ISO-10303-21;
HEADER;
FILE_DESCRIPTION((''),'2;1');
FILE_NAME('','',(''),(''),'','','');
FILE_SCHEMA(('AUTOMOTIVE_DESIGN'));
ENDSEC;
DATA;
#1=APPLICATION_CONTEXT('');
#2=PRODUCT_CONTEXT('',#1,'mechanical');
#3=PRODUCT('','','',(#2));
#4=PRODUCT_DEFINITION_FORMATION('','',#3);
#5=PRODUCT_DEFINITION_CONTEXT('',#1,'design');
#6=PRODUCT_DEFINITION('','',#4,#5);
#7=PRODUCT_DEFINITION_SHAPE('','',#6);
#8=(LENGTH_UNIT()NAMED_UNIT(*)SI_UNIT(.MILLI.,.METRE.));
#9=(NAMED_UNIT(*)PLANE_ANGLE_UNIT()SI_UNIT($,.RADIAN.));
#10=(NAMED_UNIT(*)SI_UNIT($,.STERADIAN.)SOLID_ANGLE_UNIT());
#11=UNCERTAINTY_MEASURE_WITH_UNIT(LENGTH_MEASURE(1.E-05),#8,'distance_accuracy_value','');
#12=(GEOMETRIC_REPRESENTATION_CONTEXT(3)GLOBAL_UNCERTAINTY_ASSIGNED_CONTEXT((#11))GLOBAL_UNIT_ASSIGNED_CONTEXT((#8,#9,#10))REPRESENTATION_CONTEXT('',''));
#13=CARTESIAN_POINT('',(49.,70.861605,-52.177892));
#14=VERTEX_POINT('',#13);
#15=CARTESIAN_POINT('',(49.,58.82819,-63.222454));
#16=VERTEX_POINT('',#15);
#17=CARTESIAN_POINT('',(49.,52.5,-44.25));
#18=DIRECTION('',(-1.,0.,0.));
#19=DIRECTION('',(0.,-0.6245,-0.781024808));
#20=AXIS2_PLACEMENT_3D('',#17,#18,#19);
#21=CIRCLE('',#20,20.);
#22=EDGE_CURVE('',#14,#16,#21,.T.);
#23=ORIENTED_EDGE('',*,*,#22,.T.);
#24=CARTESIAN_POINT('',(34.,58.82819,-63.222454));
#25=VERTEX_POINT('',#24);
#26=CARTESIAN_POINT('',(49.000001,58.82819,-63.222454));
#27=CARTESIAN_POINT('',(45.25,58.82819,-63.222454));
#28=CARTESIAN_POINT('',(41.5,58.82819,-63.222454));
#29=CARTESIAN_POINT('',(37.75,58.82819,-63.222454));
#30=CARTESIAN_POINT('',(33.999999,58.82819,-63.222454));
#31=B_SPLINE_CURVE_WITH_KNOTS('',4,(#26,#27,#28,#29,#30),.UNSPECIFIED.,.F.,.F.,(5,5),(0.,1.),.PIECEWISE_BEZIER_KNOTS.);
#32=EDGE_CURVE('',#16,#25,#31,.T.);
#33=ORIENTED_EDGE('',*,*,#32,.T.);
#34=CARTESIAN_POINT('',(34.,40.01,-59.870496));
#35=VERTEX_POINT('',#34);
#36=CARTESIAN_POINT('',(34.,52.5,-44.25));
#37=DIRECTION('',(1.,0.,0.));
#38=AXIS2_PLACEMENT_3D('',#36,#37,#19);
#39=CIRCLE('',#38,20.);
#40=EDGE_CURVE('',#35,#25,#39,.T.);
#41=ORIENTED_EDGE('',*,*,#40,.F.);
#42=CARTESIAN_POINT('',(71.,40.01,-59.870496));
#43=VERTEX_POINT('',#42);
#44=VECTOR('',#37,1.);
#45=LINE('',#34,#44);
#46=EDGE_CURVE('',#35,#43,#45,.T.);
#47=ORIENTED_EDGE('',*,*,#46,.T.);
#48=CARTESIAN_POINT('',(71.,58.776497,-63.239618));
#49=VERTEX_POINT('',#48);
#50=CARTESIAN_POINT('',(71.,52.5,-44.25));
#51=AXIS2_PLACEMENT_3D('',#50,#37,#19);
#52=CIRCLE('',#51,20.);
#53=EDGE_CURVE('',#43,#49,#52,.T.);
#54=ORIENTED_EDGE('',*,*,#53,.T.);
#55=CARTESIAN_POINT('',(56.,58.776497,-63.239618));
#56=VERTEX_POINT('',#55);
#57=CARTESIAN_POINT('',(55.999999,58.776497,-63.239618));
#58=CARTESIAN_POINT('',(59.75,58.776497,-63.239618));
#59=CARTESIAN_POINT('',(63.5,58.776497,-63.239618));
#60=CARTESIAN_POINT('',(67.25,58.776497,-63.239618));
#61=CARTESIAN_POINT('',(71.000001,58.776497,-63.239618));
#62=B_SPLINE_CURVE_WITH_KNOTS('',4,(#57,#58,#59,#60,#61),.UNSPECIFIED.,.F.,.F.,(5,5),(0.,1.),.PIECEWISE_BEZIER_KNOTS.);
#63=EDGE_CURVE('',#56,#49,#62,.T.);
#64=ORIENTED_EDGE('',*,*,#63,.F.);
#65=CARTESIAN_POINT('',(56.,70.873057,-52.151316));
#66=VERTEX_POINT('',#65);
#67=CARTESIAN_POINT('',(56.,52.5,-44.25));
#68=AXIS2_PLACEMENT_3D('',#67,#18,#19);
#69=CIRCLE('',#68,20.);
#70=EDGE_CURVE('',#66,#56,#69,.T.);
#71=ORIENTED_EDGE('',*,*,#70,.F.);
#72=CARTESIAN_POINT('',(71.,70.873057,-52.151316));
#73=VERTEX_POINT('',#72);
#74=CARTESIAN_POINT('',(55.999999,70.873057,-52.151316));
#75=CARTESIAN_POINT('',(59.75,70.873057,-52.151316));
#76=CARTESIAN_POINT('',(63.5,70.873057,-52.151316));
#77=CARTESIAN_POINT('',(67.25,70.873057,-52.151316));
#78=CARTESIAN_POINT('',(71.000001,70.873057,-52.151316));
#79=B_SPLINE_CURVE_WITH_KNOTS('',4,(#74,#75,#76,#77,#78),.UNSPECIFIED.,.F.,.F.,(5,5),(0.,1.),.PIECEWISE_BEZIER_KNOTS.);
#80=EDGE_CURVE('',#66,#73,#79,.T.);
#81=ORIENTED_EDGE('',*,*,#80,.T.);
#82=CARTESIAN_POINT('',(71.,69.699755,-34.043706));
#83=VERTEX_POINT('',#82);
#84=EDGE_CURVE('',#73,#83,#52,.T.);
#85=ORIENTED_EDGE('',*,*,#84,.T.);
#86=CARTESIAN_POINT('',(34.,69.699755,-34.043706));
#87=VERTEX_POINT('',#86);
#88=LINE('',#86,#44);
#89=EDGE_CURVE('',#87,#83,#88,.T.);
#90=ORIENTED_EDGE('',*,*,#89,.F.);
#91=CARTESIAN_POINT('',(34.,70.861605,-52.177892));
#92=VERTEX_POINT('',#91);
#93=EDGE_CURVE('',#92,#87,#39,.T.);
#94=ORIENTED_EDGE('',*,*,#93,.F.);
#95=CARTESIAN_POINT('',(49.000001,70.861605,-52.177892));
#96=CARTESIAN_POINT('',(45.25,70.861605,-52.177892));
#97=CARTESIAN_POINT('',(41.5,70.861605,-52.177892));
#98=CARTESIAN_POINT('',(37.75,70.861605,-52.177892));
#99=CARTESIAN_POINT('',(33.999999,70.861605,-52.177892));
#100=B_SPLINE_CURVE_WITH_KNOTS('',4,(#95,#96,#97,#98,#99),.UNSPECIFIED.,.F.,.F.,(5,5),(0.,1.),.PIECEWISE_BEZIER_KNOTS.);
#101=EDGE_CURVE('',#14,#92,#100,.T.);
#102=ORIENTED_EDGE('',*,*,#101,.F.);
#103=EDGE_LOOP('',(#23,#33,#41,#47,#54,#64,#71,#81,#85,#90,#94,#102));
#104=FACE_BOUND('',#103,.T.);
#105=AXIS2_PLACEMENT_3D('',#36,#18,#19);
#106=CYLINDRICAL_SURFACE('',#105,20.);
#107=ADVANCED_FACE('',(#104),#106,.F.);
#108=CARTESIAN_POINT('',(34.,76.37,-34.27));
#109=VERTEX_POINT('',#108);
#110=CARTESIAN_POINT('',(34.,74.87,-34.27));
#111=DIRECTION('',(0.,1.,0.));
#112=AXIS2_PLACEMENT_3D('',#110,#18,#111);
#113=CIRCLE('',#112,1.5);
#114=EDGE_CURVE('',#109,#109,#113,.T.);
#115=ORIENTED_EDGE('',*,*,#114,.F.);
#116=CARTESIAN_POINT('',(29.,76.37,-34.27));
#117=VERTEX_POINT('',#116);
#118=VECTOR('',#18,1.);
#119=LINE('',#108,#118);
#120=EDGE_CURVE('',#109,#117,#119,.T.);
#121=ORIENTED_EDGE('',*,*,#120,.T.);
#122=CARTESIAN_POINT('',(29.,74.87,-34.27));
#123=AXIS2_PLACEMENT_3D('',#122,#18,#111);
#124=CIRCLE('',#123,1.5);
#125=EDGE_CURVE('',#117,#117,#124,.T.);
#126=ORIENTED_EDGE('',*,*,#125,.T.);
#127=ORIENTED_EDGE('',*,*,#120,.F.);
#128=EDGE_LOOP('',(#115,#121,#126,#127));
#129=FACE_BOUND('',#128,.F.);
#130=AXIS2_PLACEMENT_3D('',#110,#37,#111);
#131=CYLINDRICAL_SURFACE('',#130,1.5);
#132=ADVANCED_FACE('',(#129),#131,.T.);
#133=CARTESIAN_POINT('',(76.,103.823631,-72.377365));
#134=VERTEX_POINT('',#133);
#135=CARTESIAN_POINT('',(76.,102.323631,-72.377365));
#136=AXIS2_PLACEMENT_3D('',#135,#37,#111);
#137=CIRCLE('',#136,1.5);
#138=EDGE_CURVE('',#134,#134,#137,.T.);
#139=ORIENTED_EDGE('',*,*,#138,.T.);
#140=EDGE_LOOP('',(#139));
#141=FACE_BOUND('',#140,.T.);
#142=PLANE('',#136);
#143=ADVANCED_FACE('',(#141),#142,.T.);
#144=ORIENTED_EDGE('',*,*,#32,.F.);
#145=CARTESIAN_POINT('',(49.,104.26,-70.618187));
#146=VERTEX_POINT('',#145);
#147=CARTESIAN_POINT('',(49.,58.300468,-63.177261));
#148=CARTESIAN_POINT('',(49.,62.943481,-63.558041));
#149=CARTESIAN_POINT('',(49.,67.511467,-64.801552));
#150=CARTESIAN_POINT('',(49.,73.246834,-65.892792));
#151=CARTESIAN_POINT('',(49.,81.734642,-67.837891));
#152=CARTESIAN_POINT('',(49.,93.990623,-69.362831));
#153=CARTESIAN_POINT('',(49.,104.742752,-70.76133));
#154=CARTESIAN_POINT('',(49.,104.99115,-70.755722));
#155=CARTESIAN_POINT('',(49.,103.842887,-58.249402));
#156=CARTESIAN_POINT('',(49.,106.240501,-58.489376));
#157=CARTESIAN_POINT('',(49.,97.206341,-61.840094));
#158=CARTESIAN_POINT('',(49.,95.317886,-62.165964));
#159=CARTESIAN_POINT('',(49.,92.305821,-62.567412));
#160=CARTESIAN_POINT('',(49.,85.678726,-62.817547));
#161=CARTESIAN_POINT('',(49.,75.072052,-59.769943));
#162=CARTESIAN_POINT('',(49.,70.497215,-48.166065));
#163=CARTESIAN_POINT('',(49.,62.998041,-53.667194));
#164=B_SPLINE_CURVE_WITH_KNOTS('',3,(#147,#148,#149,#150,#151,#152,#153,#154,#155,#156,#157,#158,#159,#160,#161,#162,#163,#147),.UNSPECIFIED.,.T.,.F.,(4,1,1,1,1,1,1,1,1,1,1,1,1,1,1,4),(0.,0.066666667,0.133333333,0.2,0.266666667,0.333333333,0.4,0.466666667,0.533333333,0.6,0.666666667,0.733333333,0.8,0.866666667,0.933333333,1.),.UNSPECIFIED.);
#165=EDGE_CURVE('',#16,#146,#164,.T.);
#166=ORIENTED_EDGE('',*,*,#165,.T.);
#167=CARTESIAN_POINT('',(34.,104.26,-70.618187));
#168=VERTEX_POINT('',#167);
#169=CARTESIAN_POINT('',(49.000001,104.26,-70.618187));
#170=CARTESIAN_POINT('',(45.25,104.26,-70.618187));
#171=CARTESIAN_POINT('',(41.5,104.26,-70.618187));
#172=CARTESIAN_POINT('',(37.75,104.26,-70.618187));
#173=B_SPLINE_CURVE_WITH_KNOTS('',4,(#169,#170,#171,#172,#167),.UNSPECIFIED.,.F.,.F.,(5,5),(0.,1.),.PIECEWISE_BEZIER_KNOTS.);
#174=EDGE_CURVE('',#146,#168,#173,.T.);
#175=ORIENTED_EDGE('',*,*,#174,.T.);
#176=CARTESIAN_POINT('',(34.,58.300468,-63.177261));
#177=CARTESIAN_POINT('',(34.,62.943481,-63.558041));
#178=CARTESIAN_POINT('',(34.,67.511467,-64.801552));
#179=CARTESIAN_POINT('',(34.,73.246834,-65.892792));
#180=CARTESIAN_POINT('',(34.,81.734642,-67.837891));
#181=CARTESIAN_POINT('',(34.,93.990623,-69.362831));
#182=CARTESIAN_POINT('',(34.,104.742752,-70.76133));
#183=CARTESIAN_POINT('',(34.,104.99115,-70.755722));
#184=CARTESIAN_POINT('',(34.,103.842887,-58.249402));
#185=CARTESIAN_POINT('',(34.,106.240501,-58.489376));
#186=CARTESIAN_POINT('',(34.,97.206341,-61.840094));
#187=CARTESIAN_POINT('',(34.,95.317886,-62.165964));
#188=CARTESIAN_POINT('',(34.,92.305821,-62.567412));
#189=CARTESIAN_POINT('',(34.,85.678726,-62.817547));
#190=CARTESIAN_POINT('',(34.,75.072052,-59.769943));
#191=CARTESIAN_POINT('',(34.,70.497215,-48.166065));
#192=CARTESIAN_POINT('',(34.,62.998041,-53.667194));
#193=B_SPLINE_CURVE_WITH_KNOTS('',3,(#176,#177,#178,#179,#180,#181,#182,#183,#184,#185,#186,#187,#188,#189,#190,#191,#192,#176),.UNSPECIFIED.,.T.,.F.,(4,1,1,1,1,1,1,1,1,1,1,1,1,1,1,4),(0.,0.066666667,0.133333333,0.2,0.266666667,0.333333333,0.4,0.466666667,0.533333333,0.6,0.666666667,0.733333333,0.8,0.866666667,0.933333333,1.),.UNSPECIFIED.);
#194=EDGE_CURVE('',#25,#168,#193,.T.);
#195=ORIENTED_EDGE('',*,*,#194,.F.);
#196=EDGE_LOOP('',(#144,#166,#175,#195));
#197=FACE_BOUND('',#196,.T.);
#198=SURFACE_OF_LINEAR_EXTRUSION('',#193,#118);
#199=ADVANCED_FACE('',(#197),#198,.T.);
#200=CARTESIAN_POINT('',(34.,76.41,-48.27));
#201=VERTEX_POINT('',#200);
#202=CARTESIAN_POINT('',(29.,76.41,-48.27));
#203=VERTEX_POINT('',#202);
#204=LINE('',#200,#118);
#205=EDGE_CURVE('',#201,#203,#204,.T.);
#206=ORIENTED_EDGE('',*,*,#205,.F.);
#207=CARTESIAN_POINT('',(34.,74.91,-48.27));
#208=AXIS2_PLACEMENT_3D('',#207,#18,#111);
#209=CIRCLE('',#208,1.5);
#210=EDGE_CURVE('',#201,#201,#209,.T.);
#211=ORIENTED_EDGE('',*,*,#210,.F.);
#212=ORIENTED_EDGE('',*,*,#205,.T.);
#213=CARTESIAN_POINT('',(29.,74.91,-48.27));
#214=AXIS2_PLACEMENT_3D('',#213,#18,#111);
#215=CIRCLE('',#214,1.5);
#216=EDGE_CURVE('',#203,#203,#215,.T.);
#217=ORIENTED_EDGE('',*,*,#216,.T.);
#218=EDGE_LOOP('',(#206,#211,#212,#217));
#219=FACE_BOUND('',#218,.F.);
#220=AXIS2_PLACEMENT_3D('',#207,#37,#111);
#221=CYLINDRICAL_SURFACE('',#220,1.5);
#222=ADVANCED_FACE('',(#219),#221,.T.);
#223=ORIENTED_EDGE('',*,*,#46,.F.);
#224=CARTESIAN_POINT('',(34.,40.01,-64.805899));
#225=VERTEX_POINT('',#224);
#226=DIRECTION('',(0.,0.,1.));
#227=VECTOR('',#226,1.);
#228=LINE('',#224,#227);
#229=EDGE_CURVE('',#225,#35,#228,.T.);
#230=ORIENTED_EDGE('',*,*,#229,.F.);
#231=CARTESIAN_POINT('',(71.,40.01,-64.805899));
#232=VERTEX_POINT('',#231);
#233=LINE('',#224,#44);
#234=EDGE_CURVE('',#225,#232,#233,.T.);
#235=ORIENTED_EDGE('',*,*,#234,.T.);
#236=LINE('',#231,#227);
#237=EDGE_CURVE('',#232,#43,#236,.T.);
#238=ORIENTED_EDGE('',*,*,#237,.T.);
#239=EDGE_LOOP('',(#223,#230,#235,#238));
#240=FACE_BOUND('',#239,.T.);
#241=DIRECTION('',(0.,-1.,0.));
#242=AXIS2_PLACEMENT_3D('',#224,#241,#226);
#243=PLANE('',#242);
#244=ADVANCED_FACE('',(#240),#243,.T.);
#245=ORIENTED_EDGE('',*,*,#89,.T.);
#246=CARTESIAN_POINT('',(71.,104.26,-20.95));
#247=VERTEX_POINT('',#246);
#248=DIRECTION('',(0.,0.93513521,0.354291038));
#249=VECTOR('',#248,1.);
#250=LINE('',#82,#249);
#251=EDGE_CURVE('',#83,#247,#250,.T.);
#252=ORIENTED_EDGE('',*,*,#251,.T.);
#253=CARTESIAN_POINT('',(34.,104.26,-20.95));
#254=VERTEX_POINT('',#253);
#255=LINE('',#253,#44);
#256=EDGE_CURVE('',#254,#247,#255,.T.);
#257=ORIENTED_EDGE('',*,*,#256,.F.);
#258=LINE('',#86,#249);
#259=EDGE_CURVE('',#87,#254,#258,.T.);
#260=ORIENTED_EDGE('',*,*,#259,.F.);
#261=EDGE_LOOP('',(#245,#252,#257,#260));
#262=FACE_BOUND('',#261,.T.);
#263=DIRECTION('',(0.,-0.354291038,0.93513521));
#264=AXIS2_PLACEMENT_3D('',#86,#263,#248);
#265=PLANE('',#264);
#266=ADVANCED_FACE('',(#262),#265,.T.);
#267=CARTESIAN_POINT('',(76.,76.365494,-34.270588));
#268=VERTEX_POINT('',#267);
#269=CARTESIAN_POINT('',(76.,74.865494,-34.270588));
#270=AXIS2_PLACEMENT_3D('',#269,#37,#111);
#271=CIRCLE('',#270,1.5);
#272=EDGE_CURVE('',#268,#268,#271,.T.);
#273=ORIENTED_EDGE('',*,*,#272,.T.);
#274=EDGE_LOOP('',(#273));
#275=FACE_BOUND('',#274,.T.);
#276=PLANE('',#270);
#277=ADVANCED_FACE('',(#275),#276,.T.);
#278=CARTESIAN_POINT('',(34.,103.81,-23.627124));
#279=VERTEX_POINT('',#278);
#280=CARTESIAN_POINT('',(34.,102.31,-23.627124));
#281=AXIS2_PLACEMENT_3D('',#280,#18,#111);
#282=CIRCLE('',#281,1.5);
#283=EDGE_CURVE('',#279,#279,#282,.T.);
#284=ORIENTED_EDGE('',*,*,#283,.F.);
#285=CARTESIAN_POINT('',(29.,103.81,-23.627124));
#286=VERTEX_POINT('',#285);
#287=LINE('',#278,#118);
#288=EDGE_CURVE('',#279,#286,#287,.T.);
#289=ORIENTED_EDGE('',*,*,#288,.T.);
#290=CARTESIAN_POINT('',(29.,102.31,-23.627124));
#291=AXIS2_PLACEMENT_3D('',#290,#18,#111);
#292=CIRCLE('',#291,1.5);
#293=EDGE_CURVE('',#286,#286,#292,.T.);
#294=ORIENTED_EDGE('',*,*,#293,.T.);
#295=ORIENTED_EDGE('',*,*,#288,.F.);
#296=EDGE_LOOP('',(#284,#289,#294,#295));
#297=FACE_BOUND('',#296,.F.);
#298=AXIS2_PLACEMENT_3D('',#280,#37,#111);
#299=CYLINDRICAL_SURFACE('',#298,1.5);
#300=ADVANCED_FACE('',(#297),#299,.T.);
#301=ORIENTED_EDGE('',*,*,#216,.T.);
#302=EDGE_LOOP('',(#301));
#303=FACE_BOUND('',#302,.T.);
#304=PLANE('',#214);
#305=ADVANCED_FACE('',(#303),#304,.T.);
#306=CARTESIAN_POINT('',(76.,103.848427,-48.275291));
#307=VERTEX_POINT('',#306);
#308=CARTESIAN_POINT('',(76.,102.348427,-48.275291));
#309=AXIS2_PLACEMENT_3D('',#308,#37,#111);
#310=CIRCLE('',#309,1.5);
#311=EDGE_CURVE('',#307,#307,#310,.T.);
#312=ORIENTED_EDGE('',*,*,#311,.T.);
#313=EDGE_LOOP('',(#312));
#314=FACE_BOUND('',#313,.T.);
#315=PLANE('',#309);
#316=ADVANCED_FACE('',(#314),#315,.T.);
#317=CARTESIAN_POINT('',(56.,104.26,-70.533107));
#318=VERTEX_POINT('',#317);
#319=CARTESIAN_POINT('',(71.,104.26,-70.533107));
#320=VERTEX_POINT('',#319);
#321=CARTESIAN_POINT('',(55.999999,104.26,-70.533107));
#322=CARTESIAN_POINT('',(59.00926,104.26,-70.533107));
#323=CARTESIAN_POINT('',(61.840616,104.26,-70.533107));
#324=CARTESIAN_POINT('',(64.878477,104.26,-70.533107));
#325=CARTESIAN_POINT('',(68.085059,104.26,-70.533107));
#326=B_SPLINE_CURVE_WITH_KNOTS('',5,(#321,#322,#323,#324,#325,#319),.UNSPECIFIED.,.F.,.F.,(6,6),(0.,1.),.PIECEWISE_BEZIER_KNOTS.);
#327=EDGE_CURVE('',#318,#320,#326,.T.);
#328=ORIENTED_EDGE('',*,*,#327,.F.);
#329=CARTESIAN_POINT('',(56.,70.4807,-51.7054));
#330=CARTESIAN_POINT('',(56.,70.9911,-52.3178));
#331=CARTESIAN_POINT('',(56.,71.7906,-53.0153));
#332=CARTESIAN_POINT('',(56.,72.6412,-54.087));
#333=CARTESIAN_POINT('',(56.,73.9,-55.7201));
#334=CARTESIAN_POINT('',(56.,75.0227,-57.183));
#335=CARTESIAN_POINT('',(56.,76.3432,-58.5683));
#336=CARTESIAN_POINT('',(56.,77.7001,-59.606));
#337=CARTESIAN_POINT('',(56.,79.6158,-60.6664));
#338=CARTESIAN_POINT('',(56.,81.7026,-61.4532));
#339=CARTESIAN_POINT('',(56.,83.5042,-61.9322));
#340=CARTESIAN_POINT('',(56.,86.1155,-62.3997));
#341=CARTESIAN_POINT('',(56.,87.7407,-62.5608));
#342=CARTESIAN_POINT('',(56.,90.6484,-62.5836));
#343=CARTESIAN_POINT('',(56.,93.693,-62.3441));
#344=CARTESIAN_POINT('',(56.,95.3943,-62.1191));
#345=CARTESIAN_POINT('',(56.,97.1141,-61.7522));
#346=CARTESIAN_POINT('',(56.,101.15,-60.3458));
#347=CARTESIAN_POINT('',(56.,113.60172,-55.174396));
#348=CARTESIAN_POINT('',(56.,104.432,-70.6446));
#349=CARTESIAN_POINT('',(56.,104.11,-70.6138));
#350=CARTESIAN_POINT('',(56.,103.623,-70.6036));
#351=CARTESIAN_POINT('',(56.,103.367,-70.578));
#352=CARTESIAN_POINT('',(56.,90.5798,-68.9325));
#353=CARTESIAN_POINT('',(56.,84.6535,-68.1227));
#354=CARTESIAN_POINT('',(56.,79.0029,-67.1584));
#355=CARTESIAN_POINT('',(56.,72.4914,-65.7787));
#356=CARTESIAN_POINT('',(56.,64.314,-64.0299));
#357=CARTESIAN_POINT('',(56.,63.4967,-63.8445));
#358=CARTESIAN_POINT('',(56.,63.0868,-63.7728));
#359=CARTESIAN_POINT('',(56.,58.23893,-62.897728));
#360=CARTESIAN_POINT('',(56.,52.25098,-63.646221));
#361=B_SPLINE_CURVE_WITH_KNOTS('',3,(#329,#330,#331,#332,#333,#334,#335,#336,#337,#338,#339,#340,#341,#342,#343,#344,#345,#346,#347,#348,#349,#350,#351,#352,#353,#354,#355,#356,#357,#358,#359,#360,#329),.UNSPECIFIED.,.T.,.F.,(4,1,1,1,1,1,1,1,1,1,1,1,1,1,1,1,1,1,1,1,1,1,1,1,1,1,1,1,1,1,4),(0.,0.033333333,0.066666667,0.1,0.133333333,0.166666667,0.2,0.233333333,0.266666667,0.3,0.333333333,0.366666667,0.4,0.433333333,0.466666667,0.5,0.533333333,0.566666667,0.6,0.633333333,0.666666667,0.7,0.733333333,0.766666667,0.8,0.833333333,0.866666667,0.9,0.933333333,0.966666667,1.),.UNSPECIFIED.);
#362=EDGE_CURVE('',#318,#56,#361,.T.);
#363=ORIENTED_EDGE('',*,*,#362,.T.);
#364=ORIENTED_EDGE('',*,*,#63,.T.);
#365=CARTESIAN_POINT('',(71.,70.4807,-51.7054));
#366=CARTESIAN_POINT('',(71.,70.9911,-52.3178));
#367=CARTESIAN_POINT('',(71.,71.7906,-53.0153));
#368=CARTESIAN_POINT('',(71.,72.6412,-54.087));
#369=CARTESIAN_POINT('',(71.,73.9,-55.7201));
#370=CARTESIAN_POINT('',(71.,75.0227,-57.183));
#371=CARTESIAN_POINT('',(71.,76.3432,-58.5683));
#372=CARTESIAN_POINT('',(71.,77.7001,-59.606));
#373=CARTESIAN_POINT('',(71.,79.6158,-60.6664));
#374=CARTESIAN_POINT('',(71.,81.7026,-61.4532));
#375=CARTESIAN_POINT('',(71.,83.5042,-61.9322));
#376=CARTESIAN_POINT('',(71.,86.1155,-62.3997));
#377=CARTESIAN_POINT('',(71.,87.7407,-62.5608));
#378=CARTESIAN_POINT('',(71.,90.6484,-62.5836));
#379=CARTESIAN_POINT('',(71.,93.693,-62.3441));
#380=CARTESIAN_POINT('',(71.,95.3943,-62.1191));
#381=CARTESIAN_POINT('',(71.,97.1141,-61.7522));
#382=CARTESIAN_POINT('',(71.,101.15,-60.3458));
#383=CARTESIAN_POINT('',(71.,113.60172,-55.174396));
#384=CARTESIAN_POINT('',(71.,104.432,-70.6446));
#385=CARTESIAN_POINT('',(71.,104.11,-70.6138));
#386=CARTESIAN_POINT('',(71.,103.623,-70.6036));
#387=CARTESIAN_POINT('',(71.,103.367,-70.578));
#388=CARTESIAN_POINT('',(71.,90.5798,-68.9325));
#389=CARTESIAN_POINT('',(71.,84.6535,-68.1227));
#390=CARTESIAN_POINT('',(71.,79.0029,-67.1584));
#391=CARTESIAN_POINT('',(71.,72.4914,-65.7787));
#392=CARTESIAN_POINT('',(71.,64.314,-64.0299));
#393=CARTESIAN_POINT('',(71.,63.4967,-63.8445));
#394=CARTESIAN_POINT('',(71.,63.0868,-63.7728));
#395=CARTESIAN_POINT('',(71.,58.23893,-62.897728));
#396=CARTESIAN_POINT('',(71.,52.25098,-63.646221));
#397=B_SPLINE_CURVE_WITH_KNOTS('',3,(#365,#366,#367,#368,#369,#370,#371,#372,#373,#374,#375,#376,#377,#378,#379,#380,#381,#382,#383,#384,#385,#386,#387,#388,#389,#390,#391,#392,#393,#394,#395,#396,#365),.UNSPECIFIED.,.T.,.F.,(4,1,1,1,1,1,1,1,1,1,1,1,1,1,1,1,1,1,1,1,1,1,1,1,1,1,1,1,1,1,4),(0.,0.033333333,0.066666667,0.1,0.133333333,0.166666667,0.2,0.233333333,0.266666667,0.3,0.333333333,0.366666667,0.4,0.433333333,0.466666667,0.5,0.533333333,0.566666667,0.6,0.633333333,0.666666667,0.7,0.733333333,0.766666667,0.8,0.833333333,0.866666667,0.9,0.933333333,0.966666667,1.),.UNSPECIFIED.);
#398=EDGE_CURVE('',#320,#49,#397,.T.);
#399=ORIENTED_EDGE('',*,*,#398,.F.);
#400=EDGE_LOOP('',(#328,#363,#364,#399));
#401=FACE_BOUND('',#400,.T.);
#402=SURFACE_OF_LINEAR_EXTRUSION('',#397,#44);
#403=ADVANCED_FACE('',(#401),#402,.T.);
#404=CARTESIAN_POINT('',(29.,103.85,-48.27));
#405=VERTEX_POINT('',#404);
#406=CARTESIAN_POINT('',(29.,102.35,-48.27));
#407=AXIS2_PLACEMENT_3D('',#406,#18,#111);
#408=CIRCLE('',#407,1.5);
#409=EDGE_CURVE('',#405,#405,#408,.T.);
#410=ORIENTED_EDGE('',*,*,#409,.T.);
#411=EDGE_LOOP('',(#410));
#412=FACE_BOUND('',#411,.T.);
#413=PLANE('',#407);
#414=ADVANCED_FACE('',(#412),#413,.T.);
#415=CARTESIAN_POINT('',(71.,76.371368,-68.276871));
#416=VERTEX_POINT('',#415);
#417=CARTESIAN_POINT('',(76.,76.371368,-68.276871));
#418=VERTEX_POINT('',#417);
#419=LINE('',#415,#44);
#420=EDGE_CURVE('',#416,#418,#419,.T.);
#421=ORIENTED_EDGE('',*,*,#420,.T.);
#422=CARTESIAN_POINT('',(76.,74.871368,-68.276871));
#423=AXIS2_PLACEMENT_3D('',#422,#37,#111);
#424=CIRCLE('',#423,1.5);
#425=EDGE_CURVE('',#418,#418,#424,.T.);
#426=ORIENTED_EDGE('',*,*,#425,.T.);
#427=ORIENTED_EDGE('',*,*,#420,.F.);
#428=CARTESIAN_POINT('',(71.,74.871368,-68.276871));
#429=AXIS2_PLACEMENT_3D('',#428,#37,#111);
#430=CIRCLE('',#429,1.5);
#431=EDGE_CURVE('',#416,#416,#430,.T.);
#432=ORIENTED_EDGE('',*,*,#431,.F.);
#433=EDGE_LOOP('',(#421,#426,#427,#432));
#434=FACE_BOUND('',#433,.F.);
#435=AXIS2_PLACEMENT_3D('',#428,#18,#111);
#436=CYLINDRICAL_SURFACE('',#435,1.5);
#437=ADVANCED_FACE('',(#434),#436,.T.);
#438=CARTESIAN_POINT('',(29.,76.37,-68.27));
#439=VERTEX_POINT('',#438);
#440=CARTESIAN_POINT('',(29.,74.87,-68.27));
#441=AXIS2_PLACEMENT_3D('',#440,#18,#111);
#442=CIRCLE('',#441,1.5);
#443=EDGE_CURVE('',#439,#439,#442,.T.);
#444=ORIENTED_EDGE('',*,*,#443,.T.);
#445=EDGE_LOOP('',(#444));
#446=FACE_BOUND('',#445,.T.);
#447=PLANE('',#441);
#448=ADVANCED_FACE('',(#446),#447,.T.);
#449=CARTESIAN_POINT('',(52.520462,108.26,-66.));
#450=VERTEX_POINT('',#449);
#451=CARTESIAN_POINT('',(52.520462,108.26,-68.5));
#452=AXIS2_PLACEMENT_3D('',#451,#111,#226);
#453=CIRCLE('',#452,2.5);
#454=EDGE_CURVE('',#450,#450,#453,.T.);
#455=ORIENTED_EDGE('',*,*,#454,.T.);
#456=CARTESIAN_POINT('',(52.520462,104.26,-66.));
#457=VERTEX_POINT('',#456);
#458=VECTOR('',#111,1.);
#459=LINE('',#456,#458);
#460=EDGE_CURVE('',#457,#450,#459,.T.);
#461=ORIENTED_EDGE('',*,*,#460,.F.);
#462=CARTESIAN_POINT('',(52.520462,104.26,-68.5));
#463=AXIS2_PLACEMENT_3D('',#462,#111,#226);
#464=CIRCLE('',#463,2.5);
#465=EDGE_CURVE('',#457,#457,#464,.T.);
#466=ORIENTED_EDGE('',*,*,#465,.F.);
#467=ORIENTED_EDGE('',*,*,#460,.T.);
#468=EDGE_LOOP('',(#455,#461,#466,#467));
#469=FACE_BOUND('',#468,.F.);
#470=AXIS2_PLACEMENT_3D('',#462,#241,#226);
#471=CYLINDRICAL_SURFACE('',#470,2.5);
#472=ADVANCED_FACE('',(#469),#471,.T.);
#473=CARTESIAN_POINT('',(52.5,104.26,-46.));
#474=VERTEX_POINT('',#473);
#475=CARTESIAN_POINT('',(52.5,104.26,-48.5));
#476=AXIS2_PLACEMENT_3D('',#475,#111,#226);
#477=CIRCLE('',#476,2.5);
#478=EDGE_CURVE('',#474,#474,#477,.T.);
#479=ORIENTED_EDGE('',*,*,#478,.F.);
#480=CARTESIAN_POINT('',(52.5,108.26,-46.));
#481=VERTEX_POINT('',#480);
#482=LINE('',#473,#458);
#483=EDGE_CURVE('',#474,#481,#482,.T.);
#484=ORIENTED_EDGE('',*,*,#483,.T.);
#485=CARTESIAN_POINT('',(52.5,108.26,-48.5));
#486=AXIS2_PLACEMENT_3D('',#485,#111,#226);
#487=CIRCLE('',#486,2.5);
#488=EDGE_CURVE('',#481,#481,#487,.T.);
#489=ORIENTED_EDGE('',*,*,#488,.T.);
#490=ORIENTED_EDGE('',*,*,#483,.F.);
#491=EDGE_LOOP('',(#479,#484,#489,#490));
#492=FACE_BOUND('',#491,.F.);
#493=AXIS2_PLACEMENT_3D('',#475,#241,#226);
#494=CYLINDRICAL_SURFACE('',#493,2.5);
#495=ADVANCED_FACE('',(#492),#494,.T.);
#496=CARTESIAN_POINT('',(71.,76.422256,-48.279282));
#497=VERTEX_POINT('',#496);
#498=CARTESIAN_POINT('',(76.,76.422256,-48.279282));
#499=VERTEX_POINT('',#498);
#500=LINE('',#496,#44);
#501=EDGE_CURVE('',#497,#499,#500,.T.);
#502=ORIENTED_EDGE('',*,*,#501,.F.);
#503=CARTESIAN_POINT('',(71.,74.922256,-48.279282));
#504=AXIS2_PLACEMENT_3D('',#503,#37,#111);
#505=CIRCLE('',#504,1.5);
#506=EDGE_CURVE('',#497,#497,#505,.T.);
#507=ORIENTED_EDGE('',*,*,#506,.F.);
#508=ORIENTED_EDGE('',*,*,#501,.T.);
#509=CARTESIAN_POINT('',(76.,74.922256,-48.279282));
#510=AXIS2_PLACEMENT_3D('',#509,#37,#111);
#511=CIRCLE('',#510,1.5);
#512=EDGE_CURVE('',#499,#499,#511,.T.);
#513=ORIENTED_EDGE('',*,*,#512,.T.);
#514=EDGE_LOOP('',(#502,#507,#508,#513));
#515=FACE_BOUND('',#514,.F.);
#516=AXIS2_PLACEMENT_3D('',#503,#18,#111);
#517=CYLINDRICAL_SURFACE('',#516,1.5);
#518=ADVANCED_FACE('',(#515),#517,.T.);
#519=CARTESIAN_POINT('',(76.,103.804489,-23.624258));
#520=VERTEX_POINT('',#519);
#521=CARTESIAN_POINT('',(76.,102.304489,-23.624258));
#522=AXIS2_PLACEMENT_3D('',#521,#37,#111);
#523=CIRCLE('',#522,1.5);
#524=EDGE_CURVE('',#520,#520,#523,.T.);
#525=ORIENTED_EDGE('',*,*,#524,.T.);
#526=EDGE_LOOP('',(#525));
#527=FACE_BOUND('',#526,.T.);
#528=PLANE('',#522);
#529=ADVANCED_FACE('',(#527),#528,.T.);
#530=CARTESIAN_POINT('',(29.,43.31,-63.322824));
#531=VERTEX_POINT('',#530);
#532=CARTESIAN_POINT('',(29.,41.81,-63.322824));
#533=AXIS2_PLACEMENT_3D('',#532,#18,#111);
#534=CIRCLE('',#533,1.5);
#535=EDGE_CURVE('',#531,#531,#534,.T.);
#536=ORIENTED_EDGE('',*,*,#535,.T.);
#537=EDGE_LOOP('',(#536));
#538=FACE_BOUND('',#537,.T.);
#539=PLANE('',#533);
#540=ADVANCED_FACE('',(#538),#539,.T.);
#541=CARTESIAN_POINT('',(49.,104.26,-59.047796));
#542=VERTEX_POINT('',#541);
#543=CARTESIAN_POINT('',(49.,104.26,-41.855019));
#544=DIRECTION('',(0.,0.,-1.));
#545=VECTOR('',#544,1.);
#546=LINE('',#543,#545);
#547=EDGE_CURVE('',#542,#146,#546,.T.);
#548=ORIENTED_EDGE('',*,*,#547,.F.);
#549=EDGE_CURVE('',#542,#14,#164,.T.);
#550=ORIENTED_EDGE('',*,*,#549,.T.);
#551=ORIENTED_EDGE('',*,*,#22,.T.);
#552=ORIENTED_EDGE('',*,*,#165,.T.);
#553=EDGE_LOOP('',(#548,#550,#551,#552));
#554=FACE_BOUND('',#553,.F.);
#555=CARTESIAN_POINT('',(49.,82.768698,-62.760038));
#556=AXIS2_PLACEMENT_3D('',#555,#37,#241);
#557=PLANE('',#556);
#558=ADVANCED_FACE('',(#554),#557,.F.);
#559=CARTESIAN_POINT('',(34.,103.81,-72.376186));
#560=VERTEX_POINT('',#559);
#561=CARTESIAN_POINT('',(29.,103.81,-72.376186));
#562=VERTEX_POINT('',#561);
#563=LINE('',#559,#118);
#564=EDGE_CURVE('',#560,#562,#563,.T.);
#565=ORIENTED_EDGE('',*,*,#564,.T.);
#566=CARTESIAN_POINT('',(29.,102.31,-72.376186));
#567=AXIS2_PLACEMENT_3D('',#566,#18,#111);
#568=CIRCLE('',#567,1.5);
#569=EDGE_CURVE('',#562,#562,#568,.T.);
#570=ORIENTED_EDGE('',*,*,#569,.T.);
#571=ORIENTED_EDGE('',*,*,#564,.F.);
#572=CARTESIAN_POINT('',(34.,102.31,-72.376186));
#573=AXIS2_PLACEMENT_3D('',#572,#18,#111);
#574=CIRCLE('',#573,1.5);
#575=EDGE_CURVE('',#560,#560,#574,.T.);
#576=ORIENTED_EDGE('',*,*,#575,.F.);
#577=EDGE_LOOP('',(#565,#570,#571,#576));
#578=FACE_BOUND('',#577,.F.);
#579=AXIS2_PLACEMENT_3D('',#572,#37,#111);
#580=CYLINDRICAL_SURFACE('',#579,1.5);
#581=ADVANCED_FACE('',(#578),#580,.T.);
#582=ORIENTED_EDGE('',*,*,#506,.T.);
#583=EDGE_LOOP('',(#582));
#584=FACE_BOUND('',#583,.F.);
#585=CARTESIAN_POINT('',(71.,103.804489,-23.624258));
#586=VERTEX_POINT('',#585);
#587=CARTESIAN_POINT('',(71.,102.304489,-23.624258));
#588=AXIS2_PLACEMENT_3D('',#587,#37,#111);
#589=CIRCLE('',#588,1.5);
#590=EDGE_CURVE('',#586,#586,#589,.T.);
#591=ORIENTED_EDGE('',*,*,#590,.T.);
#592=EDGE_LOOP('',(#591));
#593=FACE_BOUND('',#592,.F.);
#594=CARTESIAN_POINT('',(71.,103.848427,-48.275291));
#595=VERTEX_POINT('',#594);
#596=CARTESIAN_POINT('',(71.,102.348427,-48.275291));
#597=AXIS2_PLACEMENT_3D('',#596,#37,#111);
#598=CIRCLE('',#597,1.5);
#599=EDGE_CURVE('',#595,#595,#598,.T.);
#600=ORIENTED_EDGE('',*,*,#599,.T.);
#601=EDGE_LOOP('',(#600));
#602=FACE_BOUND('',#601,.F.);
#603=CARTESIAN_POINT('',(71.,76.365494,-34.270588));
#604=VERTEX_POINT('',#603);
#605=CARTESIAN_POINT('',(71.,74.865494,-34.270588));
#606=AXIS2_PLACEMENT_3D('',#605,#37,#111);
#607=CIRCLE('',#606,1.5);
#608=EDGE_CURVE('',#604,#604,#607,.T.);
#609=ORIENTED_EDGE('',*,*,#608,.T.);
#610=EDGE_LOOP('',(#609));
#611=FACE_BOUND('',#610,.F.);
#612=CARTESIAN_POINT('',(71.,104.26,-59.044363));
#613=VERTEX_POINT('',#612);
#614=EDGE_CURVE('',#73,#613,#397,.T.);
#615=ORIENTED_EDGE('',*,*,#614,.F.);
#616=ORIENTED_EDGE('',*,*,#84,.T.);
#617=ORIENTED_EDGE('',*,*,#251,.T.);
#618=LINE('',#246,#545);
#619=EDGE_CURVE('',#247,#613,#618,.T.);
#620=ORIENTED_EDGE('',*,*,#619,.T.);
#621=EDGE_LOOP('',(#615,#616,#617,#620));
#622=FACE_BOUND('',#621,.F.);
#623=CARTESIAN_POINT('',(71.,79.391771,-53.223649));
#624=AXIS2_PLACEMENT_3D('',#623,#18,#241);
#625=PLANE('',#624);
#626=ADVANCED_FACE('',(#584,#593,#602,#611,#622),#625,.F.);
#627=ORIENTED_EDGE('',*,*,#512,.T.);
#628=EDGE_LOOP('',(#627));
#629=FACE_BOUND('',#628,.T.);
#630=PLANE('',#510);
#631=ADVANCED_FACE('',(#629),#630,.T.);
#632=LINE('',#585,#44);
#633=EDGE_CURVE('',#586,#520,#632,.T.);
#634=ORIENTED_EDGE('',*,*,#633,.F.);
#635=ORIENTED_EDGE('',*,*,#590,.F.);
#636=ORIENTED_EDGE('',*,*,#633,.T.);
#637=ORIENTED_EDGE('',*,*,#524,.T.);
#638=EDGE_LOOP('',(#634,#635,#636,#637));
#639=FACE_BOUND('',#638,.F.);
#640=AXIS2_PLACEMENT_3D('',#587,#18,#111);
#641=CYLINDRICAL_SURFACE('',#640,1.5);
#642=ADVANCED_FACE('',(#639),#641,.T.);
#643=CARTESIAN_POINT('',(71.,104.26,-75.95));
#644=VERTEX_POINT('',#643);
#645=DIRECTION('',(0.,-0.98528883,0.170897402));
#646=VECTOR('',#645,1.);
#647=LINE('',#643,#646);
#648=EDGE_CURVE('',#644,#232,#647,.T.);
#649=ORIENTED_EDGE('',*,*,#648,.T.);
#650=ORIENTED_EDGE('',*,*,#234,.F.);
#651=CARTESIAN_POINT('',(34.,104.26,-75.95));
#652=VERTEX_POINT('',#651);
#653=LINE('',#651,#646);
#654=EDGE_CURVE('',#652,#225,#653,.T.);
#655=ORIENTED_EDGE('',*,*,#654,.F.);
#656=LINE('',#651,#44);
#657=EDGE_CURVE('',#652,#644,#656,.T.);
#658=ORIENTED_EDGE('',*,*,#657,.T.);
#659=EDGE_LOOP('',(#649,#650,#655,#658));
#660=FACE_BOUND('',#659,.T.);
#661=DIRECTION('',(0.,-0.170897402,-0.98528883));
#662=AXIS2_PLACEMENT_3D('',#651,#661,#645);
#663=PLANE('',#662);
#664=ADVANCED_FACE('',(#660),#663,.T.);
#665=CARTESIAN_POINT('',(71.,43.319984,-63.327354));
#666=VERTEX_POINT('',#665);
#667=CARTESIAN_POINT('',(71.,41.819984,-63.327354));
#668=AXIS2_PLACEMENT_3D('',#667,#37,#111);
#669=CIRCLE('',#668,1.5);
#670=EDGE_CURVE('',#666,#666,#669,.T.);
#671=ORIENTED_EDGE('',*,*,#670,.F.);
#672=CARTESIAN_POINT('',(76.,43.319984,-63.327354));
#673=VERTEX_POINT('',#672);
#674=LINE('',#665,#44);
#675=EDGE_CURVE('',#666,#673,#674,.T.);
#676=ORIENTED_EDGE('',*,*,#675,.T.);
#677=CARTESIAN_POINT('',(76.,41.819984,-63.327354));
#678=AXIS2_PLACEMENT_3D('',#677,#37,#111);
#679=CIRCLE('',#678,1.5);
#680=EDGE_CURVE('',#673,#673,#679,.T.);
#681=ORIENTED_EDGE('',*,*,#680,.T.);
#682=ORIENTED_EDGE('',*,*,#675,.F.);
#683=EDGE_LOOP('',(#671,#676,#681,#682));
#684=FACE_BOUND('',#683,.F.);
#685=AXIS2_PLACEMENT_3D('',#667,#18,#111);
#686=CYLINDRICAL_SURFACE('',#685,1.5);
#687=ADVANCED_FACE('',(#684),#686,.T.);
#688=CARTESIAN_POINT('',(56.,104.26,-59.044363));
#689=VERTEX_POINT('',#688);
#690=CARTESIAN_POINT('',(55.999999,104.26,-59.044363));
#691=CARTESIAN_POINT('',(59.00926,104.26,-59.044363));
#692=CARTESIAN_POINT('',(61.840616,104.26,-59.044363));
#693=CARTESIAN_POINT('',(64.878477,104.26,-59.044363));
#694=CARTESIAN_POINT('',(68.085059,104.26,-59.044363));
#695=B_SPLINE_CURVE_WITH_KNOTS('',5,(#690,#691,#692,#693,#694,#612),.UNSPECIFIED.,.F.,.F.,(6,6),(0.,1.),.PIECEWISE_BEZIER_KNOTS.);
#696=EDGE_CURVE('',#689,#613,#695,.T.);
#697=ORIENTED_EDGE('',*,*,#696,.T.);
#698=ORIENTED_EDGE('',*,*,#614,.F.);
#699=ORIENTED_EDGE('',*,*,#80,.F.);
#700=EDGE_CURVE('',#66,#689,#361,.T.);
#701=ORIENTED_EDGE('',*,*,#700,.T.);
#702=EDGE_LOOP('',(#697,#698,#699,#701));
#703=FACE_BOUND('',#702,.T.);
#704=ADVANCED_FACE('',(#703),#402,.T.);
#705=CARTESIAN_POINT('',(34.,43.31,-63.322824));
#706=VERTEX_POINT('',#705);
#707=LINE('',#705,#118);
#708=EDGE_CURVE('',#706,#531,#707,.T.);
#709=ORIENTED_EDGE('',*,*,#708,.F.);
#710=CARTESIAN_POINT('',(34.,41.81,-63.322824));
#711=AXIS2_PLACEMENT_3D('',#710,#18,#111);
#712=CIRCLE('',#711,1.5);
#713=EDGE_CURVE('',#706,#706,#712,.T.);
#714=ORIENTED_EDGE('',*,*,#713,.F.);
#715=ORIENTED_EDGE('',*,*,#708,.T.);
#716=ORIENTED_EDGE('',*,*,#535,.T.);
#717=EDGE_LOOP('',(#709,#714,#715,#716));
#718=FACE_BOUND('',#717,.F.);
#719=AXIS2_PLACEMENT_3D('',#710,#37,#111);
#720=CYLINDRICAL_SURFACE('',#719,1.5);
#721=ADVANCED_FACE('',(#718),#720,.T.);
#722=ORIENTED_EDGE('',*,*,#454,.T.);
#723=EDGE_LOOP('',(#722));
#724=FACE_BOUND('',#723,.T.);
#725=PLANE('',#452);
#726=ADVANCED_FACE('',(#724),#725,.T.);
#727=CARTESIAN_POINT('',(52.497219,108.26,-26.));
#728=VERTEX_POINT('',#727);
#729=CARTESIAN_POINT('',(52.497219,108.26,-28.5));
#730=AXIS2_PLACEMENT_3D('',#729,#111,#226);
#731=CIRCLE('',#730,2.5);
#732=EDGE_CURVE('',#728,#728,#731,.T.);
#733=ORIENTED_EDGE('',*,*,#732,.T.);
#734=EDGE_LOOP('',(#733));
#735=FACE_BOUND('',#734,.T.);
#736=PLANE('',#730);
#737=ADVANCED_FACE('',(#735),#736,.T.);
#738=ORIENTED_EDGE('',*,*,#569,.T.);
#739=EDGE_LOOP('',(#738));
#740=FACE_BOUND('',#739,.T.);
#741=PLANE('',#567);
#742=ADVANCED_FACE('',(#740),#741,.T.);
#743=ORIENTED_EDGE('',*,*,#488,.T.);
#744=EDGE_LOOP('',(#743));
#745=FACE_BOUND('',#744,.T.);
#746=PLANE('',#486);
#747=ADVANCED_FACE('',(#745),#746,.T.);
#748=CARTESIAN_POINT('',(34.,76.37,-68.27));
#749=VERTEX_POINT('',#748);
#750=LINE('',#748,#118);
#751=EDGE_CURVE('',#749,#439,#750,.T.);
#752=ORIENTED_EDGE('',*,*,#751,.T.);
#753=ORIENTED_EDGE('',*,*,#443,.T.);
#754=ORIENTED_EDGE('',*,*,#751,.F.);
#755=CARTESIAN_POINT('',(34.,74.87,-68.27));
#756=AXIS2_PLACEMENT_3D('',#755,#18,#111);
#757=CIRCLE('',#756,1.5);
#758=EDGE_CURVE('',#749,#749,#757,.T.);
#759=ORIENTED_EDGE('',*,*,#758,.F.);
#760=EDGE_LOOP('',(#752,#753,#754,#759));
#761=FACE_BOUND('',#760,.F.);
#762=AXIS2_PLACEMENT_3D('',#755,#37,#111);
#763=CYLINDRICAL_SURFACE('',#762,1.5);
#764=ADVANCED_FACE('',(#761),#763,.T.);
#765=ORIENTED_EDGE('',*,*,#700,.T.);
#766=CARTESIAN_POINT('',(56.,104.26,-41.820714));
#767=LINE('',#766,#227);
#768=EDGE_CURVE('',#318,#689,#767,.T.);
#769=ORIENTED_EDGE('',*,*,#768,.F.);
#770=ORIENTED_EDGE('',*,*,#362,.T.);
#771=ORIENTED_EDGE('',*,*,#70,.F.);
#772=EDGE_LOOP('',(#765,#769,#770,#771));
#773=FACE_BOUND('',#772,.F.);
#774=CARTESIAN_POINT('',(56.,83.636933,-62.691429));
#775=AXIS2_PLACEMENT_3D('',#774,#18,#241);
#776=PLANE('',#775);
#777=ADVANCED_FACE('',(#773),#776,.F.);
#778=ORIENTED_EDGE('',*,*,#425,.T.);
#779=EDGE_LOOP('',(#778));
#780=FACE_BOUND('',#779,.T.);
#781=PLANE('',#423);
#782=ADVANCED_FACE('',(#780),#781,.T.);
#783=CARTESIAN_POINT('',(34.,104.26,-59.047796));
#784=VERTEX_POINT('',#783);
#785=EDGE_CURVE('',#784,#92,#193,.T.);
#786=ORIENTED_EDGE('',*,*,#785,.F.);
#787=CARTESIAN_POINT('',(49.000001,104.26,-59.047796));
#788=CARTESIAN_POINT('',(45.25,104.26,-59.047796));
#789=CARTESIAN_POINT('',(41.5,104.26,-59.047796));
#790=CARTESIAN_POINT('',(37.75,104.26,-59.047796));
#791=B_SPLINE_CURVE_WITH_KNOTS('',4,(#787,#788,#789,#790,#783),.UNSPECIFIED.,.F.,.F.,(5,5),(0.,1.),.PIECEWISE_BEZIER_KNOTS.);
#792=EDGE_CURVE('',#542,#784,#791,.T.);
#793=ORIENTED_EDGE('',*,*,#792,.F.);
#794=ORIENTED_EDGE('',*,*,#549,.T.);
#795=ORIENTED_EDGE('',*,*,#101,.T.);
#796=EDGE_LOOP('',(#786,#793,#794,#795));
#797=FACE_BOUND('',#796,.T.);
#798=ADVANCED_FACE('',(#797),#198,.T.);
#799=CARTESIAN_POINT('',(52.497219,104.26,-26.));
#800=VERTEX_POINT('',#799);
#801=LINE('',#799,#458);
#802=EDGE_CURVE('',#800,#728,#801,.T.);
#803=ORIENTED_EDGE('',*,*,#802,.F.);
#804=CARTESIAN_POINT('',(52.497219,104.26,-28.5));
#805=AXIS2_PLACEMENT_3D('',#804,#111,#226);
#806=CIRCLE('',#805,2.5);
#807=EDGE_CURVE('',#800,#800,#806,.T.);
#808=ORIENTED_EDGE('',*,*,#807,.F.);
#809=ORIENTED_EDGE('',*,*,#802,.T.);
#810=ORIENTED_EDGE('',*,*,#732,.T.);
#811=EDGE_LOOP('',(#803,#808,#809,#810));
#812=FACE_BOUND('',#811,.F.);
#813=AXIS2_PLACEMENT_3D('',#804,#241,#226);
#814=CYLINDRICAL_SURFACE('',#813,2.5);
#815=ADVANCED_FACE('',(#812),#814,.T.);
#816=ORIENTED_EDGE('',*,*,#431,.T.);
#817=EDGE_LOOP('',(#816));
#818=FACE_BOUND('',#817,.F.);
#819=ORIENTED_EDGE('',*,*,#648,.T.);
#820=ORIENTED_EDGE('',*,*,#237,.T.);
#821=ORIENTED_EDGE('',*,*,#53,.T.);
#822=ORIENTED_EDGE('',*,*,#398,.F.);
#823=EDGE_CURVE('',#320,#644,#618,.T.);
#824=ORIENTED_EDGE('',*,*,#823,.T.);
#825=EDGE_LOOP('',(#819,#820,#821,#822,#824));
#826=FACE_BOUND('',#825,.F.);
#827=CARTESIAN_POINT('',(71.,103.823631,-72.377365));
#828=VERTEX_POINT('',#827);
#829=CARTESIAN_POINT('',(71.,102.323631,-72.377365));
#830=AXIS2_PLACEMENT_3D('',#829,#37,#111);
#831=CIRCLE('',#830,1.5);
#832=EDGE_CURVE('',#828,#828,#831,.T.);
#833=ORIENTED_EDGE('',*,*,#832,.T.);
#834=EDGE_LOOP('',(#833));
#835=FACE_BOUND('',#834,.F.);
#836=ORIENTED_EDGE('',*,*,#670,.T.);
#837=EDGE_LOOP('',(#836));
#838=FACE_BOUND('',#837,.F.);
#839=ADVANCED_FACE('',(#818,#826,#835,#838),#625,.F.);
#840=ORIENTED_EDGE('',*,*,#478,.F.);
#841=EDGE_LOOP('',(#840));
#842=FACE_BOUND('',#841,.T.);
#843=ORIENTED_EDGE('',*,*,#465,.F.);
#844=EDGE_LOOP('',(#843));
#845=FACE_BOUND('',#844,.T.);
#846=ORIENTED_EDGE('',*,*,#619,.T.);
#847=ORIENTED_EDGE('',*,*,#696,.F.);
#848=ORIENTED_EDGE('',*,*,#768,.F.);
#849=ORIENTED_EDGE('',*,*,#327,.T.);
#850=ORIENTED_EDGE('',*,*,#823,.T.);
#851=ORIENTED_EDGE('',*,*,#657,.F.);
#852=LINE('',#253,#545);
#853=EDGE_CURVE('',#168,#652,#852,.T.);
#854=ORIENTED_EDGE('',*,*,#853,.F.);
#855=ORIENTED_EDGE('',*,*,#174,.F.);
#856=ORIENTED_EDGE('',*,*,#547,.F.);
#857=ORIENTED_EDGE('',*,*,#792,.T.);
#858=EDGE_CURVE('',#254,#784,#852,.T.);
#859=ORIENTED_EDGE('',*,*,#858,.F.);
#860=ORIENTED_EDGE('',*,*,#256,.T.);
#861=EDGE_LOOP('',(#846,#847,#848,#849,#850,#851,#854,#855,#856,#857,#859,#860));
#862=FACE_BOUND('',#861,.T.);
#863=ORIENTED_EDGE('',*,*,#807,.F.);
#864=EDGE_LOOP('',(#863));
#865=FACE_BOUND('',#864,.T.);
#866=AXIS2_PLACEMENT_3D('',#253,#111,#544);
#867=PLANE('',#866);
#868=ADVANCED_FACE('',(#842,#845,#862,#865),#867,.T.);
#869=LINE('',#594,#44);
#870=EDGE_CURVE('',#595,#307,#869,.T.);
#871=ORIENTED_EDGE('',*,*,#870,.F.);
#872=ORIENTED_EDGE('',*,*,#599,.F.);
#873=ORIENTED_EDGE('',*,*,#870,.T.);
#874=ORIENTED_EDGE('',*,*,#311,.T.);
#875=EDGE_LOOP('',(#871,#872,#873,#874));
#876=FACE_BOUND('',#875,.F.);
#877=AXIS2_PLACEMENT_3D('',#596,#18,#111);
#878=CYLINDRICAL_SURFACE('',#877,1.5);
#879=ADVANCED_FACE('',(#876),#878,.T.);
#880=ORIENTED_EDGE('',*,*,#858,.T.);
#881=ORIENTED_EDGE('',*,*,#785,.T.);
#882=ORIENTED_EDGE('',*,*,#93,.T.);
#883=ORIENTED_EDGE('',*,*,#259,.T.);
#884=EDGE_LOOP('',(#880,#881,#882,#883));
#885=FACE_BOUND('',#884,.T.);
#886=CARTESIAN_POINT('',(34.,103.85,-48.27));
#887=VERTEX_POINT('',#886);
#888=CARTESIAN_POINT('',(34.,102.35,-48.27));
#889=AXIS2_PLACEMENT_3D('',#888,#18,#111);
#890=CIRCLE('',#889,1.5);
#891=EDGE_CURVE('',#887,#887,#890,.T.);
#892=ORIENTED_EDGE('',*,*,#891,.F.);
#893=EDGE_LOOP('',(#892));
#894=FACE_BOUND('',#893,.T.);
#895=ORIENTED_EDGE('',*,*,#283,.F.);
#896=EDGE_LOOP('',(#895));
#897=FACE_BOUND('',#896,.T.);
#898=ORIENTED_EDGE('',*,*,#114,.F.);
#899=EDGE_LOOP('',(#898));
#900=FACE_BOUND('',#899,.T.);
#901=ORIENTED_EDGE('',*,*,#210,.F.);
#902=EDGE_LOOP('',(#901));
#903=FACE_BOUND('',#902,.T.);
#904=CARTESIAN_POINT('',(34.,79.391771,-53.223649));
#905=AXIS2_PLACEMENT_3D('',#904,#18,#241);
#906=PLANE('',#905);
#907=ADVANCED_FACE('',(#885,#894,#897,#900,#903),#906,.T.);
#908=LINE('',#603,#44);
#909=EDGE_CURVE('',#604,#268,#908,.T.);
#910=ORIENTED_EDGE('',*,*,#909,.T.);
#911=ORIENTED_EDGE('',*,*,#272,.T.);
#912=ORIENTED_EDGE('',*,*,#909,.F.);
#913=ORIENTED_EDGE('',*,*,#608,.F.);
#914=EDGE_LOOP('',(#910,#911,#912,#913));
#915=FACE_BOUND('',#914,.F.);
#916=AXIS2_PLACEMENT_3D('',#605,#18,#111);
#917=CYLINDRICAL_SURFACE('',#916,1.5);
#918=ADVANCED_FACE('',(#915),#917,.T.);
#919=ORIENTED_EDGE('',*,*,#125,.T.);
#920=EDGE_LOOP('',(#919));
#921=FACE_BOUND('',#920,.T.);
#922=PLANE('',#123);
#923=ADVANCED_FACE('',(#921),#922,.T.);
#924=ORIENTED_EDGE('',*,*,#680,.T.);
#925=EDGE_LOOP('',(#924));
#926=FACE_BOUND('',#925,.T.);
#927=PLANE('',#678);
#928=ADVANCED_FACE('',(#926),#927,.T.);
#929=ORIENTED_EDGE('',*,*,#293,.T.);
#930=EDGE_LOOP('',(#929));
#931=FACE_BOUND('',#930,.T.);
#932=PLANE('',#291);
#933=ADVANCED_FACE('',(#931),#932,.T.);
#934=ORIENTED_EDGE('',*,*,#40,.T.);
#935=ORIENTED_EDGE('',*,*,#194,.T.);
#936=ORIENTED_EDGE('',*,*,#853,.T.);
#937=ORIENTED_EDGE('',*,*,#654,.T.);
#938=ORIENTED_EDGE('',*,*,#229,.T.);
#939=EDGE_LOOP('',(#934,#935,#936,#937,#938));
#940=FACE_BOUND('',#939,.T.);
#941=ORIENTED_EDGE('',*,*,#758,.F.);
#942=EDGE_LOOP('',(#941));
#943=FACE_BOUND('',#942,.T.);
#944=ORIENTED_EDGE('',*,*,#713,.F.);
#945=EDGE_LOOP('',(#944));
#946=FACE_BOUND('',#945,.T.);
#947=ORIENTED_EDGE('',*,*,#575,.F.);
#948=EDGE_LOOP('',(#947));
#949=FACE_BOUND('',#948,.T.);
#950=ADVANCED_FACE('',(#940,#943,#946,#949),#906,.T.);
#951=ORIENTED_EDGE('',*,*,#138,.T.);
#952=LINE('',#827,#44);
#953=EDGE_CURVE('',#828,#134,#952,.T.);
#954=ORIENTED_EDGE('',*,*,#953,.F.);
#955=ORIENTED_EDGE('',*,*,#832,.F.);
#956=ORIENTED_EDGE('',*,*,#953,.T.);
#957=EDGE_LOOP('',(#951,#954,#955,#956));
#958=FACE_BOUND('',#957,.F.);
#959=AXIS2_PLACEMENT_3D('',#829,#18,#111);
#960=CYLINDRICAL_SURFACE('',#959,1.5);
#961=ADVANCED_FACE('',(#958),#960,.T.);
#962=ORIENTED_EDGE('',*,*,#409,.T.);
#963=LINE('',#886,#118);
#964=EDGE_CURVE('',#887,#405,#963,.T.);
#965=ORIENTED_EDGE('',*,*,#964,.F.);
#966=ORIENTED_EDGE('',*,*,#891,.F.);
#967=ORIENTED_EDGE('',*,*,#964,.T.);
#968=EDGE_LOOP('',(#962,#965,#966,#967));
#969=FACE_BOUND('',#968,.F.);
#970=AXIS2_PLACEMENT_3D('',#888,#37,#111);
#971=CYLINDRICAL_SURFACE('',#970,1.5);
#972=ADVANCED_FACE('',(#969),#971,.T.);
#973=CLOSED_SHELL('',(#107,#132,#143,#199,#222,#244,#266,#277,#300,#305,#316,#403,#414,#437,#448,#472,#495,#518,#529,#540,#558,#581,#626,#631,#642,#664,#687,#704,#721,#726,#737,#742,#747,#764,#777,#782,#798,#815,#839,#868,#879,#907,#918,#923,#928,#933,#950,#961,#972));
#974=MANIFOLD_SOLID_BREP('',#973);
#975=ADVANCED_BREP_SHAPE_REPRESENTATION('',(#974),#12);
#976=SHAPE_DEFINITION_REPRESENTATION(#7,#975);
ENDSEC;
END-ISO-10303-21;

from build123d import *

# Parameters (mm, degrees)
PAD007_DEPTH    = 37
SKETCH023_R     = 1.5
PAD008_DEPTH    = 5
POCKET009_DEPTH = 15
SKETCH025_R     = 1.5
PAD009_DEPTH    = 5
POCKET010_DEPTH = 15
SKETCH027_R     = 2.5
PAD010_DEPTH    = 4


with BuildPart() as part:
    # Sketch022 → Pad007 (new body)
    with BuildSketch(Plane.YZ):
        with BuildLine():
            ThreePointArc((40.01, -59.8704961509), (65.6263560502, -59.3396910785), (69.6997545564, -34.0437057068))
            Line((69.6997545564, -34.0437057068), (104.26, -20.95))
            Line((104.26, -20.95), (104.26, -75.95))
            Line((104.26, -75.95), (40.01, -64.8058991482))
            Line((40.01, -64.8058991482), (40.01, -59.8704961509))
        make_face()
    extrude(amount=PAD007_DEPTH)

    # Sketch023 (on Face6 of Pad007) → Pad008 (join)
    with BuildSketch(Plane(origin=(0, 0, 0), x_dir=(0, 1, 0), z_dir=(-1, 0, 0))):
        with Locations((41.81, 63.3228240343)):
            Circle(SKETCH023_R)
        with Locations((74.87, 68.27)):
            Circle(SKETCH023_R)
        with Locations((102.31, 72.37618598)):
            Circle(SKETCH023_R)
        with Locations((74.87, 34.27)):
            Circle(SKETCH023_R)
        with Locations((74.91, 48.27)):
            Circle(SKETCH023_R)
        with Locations((102.35, 48.27)):
            Circle(SKETCH023_R)
        with Locations((102.31, 23.6271240211)):
            Circle(SKETCH023_R)
    extrude(amount=PAD008_DEPTH)

    # Sketch024 (on Face4 of Pad008) → Pocket009 (cut)
    with BuildSketch(Plane(origin=(0, 0, 0), x_dir=(0, 1, 0), z_dir=(-1, 0, 0))):
        with BuildLine():
            add(Edge.make_bspline(
                [(58.300468, 63.177261), (62.943481, 63.558041), (67.511467, 64.801552), (73.246834, 65.892792), (81.734642, 67.837891), (93.990623, 69.362831), (104.742752, 70.76133), (104.99115, 70.755722), (103.8428865904, 58.2494019501), (106.240501, 58.489376), (97.206341, 61.840094), (95.3178861489, 62.1659642136), (92.3058211623, 62.5674122524), (85.678726, 62.817547), (75.072052, 59.769943), (70.497215, 48.166065), (62.998041, 53.667194), (58.300468, 63.177261)],
                knots=[0, 0, 0, 0, 0.0666666667, 0.1333333333, 0.2, 0.2666666667, 0.3333333333, 0.4, 0.4666666667, 0.5333333333, 0.6, 0.6666666667, 0.7333333333, 0.8, 0.8666666667, 0.9333333333, 1, 1, 1, 1], degree=3))
        make_face()
    extrude(amount=-POCKET009_DEPTH, mode=Mode.SUBTRACT)

    # Sketch025 (on Face8 of Pocket009) → Pad009 (join)
    with BuildSketch(Plane.YZ.offset(37)):
        with Locations((74.865494, -34.270588)):
            Circle(SKETCH025_R)
        with Locations((102.304489, -23.624258)):
            Circle(SKETCH025_R)
        with Locations((74.922256, -48.279282)):
            Circle(SKETCH025_R)
        with Locations((102.348427, -48.275291)):
            Circle(SKETCH025_R)
        with Locations((102.323631, -72.377365)):
            Circle(SKETCH025_R)
        with Locations((74.871368, -68.276871)):
            Circle(SKETCH025_R)
        with Locations((41.819984, -63.327354)):
            Circle(SKETCH025_R)
    extrude(amount=PAD009_DEPTH)

    # Sketch026 (on Face8 of Pad009) → Pocket010 (cut)
    with BuildSketch(Plane.YZ.offset(37)):
        with BuildLine():
            add(Edge.make_bspline(
                [(70.4807, -51.7054), (70.9911, -52.3178), (71.7906, -53.0153), (72.6412, -54.087), (73.9, -55.7201), (75.0227, -57.183), (76.3432, -58.5683), (77.7001, -59.606), (79.6158, -60.6664), (81.7026, -61.4532), (83.5042, -61.9322), (86.1155, -62.3997), (87.7407, -62.5608), (90.6484, -62.5836), (93.693, -62.3441), (95.3943, -62.1191), (97.1141, -61.7522), (101.15, -60.3458), (113.6017201623, -55.1743962164), (104.432, -70.6446), (104.11, -70.6138), (103.623, -70.6036), (103.367, -70.578), (90.5798, -68.9325), (84.6535, -68.1227), (79.0029, -67.1584), (72.4914, -65.7787), (64.314, -64.0299), (63.4967, -63.8445), (63.0868, -63.7728), (58.23893, -62.897728), (52.25098, -63.646221), (70.4807, -51.7054)],
                knots=[0, 0, 0, 0, 0.0333333333, 0.0666666667, 0.1, 0.1333333333, 0.1666666667, 0.2, 0.2333333333, 0.2666666667, 0.3, 0.3333333333, 0.3666666667, 0.4, 0.4333333333, 0.4666666667, 0.5, 0.5333333333, 0.5666666667, 0.6, 0.6333333333, 0.6666666667, 0.7, 0.7333333333, 0.7666666667, 0.8, 0.8333333333, 0.8666666667, 0.9, 0.9333333333, 0.9666666667, 1, 1, 1, 1], degree=3))
        make_face()
    extrude(amount=-POCKET010_DEPTH, mode=Mode.SUBTRACT)

    # Sketch027 (on Face15 of Pocket010) → Pad010 (join)
    with BuildSketch(Plane.ZX.offset(104.26)):
        with Locations((-48.5, 18.5)):
            Circle(SKETCH027_R)
        with Locations((-68.5, 18.520462)):
            Circle(SKETCH027_R)
        with Locations((-28.5, 18.497219)):
            Circle(SKETCH027_R)
    extrude(amount=PAD010_DEPTH)


with BuildPart() as part_1:
    # Body003 placement: moved
    add(part.part.moved(Location((34, 0, 0))))


solid = part_1.part
